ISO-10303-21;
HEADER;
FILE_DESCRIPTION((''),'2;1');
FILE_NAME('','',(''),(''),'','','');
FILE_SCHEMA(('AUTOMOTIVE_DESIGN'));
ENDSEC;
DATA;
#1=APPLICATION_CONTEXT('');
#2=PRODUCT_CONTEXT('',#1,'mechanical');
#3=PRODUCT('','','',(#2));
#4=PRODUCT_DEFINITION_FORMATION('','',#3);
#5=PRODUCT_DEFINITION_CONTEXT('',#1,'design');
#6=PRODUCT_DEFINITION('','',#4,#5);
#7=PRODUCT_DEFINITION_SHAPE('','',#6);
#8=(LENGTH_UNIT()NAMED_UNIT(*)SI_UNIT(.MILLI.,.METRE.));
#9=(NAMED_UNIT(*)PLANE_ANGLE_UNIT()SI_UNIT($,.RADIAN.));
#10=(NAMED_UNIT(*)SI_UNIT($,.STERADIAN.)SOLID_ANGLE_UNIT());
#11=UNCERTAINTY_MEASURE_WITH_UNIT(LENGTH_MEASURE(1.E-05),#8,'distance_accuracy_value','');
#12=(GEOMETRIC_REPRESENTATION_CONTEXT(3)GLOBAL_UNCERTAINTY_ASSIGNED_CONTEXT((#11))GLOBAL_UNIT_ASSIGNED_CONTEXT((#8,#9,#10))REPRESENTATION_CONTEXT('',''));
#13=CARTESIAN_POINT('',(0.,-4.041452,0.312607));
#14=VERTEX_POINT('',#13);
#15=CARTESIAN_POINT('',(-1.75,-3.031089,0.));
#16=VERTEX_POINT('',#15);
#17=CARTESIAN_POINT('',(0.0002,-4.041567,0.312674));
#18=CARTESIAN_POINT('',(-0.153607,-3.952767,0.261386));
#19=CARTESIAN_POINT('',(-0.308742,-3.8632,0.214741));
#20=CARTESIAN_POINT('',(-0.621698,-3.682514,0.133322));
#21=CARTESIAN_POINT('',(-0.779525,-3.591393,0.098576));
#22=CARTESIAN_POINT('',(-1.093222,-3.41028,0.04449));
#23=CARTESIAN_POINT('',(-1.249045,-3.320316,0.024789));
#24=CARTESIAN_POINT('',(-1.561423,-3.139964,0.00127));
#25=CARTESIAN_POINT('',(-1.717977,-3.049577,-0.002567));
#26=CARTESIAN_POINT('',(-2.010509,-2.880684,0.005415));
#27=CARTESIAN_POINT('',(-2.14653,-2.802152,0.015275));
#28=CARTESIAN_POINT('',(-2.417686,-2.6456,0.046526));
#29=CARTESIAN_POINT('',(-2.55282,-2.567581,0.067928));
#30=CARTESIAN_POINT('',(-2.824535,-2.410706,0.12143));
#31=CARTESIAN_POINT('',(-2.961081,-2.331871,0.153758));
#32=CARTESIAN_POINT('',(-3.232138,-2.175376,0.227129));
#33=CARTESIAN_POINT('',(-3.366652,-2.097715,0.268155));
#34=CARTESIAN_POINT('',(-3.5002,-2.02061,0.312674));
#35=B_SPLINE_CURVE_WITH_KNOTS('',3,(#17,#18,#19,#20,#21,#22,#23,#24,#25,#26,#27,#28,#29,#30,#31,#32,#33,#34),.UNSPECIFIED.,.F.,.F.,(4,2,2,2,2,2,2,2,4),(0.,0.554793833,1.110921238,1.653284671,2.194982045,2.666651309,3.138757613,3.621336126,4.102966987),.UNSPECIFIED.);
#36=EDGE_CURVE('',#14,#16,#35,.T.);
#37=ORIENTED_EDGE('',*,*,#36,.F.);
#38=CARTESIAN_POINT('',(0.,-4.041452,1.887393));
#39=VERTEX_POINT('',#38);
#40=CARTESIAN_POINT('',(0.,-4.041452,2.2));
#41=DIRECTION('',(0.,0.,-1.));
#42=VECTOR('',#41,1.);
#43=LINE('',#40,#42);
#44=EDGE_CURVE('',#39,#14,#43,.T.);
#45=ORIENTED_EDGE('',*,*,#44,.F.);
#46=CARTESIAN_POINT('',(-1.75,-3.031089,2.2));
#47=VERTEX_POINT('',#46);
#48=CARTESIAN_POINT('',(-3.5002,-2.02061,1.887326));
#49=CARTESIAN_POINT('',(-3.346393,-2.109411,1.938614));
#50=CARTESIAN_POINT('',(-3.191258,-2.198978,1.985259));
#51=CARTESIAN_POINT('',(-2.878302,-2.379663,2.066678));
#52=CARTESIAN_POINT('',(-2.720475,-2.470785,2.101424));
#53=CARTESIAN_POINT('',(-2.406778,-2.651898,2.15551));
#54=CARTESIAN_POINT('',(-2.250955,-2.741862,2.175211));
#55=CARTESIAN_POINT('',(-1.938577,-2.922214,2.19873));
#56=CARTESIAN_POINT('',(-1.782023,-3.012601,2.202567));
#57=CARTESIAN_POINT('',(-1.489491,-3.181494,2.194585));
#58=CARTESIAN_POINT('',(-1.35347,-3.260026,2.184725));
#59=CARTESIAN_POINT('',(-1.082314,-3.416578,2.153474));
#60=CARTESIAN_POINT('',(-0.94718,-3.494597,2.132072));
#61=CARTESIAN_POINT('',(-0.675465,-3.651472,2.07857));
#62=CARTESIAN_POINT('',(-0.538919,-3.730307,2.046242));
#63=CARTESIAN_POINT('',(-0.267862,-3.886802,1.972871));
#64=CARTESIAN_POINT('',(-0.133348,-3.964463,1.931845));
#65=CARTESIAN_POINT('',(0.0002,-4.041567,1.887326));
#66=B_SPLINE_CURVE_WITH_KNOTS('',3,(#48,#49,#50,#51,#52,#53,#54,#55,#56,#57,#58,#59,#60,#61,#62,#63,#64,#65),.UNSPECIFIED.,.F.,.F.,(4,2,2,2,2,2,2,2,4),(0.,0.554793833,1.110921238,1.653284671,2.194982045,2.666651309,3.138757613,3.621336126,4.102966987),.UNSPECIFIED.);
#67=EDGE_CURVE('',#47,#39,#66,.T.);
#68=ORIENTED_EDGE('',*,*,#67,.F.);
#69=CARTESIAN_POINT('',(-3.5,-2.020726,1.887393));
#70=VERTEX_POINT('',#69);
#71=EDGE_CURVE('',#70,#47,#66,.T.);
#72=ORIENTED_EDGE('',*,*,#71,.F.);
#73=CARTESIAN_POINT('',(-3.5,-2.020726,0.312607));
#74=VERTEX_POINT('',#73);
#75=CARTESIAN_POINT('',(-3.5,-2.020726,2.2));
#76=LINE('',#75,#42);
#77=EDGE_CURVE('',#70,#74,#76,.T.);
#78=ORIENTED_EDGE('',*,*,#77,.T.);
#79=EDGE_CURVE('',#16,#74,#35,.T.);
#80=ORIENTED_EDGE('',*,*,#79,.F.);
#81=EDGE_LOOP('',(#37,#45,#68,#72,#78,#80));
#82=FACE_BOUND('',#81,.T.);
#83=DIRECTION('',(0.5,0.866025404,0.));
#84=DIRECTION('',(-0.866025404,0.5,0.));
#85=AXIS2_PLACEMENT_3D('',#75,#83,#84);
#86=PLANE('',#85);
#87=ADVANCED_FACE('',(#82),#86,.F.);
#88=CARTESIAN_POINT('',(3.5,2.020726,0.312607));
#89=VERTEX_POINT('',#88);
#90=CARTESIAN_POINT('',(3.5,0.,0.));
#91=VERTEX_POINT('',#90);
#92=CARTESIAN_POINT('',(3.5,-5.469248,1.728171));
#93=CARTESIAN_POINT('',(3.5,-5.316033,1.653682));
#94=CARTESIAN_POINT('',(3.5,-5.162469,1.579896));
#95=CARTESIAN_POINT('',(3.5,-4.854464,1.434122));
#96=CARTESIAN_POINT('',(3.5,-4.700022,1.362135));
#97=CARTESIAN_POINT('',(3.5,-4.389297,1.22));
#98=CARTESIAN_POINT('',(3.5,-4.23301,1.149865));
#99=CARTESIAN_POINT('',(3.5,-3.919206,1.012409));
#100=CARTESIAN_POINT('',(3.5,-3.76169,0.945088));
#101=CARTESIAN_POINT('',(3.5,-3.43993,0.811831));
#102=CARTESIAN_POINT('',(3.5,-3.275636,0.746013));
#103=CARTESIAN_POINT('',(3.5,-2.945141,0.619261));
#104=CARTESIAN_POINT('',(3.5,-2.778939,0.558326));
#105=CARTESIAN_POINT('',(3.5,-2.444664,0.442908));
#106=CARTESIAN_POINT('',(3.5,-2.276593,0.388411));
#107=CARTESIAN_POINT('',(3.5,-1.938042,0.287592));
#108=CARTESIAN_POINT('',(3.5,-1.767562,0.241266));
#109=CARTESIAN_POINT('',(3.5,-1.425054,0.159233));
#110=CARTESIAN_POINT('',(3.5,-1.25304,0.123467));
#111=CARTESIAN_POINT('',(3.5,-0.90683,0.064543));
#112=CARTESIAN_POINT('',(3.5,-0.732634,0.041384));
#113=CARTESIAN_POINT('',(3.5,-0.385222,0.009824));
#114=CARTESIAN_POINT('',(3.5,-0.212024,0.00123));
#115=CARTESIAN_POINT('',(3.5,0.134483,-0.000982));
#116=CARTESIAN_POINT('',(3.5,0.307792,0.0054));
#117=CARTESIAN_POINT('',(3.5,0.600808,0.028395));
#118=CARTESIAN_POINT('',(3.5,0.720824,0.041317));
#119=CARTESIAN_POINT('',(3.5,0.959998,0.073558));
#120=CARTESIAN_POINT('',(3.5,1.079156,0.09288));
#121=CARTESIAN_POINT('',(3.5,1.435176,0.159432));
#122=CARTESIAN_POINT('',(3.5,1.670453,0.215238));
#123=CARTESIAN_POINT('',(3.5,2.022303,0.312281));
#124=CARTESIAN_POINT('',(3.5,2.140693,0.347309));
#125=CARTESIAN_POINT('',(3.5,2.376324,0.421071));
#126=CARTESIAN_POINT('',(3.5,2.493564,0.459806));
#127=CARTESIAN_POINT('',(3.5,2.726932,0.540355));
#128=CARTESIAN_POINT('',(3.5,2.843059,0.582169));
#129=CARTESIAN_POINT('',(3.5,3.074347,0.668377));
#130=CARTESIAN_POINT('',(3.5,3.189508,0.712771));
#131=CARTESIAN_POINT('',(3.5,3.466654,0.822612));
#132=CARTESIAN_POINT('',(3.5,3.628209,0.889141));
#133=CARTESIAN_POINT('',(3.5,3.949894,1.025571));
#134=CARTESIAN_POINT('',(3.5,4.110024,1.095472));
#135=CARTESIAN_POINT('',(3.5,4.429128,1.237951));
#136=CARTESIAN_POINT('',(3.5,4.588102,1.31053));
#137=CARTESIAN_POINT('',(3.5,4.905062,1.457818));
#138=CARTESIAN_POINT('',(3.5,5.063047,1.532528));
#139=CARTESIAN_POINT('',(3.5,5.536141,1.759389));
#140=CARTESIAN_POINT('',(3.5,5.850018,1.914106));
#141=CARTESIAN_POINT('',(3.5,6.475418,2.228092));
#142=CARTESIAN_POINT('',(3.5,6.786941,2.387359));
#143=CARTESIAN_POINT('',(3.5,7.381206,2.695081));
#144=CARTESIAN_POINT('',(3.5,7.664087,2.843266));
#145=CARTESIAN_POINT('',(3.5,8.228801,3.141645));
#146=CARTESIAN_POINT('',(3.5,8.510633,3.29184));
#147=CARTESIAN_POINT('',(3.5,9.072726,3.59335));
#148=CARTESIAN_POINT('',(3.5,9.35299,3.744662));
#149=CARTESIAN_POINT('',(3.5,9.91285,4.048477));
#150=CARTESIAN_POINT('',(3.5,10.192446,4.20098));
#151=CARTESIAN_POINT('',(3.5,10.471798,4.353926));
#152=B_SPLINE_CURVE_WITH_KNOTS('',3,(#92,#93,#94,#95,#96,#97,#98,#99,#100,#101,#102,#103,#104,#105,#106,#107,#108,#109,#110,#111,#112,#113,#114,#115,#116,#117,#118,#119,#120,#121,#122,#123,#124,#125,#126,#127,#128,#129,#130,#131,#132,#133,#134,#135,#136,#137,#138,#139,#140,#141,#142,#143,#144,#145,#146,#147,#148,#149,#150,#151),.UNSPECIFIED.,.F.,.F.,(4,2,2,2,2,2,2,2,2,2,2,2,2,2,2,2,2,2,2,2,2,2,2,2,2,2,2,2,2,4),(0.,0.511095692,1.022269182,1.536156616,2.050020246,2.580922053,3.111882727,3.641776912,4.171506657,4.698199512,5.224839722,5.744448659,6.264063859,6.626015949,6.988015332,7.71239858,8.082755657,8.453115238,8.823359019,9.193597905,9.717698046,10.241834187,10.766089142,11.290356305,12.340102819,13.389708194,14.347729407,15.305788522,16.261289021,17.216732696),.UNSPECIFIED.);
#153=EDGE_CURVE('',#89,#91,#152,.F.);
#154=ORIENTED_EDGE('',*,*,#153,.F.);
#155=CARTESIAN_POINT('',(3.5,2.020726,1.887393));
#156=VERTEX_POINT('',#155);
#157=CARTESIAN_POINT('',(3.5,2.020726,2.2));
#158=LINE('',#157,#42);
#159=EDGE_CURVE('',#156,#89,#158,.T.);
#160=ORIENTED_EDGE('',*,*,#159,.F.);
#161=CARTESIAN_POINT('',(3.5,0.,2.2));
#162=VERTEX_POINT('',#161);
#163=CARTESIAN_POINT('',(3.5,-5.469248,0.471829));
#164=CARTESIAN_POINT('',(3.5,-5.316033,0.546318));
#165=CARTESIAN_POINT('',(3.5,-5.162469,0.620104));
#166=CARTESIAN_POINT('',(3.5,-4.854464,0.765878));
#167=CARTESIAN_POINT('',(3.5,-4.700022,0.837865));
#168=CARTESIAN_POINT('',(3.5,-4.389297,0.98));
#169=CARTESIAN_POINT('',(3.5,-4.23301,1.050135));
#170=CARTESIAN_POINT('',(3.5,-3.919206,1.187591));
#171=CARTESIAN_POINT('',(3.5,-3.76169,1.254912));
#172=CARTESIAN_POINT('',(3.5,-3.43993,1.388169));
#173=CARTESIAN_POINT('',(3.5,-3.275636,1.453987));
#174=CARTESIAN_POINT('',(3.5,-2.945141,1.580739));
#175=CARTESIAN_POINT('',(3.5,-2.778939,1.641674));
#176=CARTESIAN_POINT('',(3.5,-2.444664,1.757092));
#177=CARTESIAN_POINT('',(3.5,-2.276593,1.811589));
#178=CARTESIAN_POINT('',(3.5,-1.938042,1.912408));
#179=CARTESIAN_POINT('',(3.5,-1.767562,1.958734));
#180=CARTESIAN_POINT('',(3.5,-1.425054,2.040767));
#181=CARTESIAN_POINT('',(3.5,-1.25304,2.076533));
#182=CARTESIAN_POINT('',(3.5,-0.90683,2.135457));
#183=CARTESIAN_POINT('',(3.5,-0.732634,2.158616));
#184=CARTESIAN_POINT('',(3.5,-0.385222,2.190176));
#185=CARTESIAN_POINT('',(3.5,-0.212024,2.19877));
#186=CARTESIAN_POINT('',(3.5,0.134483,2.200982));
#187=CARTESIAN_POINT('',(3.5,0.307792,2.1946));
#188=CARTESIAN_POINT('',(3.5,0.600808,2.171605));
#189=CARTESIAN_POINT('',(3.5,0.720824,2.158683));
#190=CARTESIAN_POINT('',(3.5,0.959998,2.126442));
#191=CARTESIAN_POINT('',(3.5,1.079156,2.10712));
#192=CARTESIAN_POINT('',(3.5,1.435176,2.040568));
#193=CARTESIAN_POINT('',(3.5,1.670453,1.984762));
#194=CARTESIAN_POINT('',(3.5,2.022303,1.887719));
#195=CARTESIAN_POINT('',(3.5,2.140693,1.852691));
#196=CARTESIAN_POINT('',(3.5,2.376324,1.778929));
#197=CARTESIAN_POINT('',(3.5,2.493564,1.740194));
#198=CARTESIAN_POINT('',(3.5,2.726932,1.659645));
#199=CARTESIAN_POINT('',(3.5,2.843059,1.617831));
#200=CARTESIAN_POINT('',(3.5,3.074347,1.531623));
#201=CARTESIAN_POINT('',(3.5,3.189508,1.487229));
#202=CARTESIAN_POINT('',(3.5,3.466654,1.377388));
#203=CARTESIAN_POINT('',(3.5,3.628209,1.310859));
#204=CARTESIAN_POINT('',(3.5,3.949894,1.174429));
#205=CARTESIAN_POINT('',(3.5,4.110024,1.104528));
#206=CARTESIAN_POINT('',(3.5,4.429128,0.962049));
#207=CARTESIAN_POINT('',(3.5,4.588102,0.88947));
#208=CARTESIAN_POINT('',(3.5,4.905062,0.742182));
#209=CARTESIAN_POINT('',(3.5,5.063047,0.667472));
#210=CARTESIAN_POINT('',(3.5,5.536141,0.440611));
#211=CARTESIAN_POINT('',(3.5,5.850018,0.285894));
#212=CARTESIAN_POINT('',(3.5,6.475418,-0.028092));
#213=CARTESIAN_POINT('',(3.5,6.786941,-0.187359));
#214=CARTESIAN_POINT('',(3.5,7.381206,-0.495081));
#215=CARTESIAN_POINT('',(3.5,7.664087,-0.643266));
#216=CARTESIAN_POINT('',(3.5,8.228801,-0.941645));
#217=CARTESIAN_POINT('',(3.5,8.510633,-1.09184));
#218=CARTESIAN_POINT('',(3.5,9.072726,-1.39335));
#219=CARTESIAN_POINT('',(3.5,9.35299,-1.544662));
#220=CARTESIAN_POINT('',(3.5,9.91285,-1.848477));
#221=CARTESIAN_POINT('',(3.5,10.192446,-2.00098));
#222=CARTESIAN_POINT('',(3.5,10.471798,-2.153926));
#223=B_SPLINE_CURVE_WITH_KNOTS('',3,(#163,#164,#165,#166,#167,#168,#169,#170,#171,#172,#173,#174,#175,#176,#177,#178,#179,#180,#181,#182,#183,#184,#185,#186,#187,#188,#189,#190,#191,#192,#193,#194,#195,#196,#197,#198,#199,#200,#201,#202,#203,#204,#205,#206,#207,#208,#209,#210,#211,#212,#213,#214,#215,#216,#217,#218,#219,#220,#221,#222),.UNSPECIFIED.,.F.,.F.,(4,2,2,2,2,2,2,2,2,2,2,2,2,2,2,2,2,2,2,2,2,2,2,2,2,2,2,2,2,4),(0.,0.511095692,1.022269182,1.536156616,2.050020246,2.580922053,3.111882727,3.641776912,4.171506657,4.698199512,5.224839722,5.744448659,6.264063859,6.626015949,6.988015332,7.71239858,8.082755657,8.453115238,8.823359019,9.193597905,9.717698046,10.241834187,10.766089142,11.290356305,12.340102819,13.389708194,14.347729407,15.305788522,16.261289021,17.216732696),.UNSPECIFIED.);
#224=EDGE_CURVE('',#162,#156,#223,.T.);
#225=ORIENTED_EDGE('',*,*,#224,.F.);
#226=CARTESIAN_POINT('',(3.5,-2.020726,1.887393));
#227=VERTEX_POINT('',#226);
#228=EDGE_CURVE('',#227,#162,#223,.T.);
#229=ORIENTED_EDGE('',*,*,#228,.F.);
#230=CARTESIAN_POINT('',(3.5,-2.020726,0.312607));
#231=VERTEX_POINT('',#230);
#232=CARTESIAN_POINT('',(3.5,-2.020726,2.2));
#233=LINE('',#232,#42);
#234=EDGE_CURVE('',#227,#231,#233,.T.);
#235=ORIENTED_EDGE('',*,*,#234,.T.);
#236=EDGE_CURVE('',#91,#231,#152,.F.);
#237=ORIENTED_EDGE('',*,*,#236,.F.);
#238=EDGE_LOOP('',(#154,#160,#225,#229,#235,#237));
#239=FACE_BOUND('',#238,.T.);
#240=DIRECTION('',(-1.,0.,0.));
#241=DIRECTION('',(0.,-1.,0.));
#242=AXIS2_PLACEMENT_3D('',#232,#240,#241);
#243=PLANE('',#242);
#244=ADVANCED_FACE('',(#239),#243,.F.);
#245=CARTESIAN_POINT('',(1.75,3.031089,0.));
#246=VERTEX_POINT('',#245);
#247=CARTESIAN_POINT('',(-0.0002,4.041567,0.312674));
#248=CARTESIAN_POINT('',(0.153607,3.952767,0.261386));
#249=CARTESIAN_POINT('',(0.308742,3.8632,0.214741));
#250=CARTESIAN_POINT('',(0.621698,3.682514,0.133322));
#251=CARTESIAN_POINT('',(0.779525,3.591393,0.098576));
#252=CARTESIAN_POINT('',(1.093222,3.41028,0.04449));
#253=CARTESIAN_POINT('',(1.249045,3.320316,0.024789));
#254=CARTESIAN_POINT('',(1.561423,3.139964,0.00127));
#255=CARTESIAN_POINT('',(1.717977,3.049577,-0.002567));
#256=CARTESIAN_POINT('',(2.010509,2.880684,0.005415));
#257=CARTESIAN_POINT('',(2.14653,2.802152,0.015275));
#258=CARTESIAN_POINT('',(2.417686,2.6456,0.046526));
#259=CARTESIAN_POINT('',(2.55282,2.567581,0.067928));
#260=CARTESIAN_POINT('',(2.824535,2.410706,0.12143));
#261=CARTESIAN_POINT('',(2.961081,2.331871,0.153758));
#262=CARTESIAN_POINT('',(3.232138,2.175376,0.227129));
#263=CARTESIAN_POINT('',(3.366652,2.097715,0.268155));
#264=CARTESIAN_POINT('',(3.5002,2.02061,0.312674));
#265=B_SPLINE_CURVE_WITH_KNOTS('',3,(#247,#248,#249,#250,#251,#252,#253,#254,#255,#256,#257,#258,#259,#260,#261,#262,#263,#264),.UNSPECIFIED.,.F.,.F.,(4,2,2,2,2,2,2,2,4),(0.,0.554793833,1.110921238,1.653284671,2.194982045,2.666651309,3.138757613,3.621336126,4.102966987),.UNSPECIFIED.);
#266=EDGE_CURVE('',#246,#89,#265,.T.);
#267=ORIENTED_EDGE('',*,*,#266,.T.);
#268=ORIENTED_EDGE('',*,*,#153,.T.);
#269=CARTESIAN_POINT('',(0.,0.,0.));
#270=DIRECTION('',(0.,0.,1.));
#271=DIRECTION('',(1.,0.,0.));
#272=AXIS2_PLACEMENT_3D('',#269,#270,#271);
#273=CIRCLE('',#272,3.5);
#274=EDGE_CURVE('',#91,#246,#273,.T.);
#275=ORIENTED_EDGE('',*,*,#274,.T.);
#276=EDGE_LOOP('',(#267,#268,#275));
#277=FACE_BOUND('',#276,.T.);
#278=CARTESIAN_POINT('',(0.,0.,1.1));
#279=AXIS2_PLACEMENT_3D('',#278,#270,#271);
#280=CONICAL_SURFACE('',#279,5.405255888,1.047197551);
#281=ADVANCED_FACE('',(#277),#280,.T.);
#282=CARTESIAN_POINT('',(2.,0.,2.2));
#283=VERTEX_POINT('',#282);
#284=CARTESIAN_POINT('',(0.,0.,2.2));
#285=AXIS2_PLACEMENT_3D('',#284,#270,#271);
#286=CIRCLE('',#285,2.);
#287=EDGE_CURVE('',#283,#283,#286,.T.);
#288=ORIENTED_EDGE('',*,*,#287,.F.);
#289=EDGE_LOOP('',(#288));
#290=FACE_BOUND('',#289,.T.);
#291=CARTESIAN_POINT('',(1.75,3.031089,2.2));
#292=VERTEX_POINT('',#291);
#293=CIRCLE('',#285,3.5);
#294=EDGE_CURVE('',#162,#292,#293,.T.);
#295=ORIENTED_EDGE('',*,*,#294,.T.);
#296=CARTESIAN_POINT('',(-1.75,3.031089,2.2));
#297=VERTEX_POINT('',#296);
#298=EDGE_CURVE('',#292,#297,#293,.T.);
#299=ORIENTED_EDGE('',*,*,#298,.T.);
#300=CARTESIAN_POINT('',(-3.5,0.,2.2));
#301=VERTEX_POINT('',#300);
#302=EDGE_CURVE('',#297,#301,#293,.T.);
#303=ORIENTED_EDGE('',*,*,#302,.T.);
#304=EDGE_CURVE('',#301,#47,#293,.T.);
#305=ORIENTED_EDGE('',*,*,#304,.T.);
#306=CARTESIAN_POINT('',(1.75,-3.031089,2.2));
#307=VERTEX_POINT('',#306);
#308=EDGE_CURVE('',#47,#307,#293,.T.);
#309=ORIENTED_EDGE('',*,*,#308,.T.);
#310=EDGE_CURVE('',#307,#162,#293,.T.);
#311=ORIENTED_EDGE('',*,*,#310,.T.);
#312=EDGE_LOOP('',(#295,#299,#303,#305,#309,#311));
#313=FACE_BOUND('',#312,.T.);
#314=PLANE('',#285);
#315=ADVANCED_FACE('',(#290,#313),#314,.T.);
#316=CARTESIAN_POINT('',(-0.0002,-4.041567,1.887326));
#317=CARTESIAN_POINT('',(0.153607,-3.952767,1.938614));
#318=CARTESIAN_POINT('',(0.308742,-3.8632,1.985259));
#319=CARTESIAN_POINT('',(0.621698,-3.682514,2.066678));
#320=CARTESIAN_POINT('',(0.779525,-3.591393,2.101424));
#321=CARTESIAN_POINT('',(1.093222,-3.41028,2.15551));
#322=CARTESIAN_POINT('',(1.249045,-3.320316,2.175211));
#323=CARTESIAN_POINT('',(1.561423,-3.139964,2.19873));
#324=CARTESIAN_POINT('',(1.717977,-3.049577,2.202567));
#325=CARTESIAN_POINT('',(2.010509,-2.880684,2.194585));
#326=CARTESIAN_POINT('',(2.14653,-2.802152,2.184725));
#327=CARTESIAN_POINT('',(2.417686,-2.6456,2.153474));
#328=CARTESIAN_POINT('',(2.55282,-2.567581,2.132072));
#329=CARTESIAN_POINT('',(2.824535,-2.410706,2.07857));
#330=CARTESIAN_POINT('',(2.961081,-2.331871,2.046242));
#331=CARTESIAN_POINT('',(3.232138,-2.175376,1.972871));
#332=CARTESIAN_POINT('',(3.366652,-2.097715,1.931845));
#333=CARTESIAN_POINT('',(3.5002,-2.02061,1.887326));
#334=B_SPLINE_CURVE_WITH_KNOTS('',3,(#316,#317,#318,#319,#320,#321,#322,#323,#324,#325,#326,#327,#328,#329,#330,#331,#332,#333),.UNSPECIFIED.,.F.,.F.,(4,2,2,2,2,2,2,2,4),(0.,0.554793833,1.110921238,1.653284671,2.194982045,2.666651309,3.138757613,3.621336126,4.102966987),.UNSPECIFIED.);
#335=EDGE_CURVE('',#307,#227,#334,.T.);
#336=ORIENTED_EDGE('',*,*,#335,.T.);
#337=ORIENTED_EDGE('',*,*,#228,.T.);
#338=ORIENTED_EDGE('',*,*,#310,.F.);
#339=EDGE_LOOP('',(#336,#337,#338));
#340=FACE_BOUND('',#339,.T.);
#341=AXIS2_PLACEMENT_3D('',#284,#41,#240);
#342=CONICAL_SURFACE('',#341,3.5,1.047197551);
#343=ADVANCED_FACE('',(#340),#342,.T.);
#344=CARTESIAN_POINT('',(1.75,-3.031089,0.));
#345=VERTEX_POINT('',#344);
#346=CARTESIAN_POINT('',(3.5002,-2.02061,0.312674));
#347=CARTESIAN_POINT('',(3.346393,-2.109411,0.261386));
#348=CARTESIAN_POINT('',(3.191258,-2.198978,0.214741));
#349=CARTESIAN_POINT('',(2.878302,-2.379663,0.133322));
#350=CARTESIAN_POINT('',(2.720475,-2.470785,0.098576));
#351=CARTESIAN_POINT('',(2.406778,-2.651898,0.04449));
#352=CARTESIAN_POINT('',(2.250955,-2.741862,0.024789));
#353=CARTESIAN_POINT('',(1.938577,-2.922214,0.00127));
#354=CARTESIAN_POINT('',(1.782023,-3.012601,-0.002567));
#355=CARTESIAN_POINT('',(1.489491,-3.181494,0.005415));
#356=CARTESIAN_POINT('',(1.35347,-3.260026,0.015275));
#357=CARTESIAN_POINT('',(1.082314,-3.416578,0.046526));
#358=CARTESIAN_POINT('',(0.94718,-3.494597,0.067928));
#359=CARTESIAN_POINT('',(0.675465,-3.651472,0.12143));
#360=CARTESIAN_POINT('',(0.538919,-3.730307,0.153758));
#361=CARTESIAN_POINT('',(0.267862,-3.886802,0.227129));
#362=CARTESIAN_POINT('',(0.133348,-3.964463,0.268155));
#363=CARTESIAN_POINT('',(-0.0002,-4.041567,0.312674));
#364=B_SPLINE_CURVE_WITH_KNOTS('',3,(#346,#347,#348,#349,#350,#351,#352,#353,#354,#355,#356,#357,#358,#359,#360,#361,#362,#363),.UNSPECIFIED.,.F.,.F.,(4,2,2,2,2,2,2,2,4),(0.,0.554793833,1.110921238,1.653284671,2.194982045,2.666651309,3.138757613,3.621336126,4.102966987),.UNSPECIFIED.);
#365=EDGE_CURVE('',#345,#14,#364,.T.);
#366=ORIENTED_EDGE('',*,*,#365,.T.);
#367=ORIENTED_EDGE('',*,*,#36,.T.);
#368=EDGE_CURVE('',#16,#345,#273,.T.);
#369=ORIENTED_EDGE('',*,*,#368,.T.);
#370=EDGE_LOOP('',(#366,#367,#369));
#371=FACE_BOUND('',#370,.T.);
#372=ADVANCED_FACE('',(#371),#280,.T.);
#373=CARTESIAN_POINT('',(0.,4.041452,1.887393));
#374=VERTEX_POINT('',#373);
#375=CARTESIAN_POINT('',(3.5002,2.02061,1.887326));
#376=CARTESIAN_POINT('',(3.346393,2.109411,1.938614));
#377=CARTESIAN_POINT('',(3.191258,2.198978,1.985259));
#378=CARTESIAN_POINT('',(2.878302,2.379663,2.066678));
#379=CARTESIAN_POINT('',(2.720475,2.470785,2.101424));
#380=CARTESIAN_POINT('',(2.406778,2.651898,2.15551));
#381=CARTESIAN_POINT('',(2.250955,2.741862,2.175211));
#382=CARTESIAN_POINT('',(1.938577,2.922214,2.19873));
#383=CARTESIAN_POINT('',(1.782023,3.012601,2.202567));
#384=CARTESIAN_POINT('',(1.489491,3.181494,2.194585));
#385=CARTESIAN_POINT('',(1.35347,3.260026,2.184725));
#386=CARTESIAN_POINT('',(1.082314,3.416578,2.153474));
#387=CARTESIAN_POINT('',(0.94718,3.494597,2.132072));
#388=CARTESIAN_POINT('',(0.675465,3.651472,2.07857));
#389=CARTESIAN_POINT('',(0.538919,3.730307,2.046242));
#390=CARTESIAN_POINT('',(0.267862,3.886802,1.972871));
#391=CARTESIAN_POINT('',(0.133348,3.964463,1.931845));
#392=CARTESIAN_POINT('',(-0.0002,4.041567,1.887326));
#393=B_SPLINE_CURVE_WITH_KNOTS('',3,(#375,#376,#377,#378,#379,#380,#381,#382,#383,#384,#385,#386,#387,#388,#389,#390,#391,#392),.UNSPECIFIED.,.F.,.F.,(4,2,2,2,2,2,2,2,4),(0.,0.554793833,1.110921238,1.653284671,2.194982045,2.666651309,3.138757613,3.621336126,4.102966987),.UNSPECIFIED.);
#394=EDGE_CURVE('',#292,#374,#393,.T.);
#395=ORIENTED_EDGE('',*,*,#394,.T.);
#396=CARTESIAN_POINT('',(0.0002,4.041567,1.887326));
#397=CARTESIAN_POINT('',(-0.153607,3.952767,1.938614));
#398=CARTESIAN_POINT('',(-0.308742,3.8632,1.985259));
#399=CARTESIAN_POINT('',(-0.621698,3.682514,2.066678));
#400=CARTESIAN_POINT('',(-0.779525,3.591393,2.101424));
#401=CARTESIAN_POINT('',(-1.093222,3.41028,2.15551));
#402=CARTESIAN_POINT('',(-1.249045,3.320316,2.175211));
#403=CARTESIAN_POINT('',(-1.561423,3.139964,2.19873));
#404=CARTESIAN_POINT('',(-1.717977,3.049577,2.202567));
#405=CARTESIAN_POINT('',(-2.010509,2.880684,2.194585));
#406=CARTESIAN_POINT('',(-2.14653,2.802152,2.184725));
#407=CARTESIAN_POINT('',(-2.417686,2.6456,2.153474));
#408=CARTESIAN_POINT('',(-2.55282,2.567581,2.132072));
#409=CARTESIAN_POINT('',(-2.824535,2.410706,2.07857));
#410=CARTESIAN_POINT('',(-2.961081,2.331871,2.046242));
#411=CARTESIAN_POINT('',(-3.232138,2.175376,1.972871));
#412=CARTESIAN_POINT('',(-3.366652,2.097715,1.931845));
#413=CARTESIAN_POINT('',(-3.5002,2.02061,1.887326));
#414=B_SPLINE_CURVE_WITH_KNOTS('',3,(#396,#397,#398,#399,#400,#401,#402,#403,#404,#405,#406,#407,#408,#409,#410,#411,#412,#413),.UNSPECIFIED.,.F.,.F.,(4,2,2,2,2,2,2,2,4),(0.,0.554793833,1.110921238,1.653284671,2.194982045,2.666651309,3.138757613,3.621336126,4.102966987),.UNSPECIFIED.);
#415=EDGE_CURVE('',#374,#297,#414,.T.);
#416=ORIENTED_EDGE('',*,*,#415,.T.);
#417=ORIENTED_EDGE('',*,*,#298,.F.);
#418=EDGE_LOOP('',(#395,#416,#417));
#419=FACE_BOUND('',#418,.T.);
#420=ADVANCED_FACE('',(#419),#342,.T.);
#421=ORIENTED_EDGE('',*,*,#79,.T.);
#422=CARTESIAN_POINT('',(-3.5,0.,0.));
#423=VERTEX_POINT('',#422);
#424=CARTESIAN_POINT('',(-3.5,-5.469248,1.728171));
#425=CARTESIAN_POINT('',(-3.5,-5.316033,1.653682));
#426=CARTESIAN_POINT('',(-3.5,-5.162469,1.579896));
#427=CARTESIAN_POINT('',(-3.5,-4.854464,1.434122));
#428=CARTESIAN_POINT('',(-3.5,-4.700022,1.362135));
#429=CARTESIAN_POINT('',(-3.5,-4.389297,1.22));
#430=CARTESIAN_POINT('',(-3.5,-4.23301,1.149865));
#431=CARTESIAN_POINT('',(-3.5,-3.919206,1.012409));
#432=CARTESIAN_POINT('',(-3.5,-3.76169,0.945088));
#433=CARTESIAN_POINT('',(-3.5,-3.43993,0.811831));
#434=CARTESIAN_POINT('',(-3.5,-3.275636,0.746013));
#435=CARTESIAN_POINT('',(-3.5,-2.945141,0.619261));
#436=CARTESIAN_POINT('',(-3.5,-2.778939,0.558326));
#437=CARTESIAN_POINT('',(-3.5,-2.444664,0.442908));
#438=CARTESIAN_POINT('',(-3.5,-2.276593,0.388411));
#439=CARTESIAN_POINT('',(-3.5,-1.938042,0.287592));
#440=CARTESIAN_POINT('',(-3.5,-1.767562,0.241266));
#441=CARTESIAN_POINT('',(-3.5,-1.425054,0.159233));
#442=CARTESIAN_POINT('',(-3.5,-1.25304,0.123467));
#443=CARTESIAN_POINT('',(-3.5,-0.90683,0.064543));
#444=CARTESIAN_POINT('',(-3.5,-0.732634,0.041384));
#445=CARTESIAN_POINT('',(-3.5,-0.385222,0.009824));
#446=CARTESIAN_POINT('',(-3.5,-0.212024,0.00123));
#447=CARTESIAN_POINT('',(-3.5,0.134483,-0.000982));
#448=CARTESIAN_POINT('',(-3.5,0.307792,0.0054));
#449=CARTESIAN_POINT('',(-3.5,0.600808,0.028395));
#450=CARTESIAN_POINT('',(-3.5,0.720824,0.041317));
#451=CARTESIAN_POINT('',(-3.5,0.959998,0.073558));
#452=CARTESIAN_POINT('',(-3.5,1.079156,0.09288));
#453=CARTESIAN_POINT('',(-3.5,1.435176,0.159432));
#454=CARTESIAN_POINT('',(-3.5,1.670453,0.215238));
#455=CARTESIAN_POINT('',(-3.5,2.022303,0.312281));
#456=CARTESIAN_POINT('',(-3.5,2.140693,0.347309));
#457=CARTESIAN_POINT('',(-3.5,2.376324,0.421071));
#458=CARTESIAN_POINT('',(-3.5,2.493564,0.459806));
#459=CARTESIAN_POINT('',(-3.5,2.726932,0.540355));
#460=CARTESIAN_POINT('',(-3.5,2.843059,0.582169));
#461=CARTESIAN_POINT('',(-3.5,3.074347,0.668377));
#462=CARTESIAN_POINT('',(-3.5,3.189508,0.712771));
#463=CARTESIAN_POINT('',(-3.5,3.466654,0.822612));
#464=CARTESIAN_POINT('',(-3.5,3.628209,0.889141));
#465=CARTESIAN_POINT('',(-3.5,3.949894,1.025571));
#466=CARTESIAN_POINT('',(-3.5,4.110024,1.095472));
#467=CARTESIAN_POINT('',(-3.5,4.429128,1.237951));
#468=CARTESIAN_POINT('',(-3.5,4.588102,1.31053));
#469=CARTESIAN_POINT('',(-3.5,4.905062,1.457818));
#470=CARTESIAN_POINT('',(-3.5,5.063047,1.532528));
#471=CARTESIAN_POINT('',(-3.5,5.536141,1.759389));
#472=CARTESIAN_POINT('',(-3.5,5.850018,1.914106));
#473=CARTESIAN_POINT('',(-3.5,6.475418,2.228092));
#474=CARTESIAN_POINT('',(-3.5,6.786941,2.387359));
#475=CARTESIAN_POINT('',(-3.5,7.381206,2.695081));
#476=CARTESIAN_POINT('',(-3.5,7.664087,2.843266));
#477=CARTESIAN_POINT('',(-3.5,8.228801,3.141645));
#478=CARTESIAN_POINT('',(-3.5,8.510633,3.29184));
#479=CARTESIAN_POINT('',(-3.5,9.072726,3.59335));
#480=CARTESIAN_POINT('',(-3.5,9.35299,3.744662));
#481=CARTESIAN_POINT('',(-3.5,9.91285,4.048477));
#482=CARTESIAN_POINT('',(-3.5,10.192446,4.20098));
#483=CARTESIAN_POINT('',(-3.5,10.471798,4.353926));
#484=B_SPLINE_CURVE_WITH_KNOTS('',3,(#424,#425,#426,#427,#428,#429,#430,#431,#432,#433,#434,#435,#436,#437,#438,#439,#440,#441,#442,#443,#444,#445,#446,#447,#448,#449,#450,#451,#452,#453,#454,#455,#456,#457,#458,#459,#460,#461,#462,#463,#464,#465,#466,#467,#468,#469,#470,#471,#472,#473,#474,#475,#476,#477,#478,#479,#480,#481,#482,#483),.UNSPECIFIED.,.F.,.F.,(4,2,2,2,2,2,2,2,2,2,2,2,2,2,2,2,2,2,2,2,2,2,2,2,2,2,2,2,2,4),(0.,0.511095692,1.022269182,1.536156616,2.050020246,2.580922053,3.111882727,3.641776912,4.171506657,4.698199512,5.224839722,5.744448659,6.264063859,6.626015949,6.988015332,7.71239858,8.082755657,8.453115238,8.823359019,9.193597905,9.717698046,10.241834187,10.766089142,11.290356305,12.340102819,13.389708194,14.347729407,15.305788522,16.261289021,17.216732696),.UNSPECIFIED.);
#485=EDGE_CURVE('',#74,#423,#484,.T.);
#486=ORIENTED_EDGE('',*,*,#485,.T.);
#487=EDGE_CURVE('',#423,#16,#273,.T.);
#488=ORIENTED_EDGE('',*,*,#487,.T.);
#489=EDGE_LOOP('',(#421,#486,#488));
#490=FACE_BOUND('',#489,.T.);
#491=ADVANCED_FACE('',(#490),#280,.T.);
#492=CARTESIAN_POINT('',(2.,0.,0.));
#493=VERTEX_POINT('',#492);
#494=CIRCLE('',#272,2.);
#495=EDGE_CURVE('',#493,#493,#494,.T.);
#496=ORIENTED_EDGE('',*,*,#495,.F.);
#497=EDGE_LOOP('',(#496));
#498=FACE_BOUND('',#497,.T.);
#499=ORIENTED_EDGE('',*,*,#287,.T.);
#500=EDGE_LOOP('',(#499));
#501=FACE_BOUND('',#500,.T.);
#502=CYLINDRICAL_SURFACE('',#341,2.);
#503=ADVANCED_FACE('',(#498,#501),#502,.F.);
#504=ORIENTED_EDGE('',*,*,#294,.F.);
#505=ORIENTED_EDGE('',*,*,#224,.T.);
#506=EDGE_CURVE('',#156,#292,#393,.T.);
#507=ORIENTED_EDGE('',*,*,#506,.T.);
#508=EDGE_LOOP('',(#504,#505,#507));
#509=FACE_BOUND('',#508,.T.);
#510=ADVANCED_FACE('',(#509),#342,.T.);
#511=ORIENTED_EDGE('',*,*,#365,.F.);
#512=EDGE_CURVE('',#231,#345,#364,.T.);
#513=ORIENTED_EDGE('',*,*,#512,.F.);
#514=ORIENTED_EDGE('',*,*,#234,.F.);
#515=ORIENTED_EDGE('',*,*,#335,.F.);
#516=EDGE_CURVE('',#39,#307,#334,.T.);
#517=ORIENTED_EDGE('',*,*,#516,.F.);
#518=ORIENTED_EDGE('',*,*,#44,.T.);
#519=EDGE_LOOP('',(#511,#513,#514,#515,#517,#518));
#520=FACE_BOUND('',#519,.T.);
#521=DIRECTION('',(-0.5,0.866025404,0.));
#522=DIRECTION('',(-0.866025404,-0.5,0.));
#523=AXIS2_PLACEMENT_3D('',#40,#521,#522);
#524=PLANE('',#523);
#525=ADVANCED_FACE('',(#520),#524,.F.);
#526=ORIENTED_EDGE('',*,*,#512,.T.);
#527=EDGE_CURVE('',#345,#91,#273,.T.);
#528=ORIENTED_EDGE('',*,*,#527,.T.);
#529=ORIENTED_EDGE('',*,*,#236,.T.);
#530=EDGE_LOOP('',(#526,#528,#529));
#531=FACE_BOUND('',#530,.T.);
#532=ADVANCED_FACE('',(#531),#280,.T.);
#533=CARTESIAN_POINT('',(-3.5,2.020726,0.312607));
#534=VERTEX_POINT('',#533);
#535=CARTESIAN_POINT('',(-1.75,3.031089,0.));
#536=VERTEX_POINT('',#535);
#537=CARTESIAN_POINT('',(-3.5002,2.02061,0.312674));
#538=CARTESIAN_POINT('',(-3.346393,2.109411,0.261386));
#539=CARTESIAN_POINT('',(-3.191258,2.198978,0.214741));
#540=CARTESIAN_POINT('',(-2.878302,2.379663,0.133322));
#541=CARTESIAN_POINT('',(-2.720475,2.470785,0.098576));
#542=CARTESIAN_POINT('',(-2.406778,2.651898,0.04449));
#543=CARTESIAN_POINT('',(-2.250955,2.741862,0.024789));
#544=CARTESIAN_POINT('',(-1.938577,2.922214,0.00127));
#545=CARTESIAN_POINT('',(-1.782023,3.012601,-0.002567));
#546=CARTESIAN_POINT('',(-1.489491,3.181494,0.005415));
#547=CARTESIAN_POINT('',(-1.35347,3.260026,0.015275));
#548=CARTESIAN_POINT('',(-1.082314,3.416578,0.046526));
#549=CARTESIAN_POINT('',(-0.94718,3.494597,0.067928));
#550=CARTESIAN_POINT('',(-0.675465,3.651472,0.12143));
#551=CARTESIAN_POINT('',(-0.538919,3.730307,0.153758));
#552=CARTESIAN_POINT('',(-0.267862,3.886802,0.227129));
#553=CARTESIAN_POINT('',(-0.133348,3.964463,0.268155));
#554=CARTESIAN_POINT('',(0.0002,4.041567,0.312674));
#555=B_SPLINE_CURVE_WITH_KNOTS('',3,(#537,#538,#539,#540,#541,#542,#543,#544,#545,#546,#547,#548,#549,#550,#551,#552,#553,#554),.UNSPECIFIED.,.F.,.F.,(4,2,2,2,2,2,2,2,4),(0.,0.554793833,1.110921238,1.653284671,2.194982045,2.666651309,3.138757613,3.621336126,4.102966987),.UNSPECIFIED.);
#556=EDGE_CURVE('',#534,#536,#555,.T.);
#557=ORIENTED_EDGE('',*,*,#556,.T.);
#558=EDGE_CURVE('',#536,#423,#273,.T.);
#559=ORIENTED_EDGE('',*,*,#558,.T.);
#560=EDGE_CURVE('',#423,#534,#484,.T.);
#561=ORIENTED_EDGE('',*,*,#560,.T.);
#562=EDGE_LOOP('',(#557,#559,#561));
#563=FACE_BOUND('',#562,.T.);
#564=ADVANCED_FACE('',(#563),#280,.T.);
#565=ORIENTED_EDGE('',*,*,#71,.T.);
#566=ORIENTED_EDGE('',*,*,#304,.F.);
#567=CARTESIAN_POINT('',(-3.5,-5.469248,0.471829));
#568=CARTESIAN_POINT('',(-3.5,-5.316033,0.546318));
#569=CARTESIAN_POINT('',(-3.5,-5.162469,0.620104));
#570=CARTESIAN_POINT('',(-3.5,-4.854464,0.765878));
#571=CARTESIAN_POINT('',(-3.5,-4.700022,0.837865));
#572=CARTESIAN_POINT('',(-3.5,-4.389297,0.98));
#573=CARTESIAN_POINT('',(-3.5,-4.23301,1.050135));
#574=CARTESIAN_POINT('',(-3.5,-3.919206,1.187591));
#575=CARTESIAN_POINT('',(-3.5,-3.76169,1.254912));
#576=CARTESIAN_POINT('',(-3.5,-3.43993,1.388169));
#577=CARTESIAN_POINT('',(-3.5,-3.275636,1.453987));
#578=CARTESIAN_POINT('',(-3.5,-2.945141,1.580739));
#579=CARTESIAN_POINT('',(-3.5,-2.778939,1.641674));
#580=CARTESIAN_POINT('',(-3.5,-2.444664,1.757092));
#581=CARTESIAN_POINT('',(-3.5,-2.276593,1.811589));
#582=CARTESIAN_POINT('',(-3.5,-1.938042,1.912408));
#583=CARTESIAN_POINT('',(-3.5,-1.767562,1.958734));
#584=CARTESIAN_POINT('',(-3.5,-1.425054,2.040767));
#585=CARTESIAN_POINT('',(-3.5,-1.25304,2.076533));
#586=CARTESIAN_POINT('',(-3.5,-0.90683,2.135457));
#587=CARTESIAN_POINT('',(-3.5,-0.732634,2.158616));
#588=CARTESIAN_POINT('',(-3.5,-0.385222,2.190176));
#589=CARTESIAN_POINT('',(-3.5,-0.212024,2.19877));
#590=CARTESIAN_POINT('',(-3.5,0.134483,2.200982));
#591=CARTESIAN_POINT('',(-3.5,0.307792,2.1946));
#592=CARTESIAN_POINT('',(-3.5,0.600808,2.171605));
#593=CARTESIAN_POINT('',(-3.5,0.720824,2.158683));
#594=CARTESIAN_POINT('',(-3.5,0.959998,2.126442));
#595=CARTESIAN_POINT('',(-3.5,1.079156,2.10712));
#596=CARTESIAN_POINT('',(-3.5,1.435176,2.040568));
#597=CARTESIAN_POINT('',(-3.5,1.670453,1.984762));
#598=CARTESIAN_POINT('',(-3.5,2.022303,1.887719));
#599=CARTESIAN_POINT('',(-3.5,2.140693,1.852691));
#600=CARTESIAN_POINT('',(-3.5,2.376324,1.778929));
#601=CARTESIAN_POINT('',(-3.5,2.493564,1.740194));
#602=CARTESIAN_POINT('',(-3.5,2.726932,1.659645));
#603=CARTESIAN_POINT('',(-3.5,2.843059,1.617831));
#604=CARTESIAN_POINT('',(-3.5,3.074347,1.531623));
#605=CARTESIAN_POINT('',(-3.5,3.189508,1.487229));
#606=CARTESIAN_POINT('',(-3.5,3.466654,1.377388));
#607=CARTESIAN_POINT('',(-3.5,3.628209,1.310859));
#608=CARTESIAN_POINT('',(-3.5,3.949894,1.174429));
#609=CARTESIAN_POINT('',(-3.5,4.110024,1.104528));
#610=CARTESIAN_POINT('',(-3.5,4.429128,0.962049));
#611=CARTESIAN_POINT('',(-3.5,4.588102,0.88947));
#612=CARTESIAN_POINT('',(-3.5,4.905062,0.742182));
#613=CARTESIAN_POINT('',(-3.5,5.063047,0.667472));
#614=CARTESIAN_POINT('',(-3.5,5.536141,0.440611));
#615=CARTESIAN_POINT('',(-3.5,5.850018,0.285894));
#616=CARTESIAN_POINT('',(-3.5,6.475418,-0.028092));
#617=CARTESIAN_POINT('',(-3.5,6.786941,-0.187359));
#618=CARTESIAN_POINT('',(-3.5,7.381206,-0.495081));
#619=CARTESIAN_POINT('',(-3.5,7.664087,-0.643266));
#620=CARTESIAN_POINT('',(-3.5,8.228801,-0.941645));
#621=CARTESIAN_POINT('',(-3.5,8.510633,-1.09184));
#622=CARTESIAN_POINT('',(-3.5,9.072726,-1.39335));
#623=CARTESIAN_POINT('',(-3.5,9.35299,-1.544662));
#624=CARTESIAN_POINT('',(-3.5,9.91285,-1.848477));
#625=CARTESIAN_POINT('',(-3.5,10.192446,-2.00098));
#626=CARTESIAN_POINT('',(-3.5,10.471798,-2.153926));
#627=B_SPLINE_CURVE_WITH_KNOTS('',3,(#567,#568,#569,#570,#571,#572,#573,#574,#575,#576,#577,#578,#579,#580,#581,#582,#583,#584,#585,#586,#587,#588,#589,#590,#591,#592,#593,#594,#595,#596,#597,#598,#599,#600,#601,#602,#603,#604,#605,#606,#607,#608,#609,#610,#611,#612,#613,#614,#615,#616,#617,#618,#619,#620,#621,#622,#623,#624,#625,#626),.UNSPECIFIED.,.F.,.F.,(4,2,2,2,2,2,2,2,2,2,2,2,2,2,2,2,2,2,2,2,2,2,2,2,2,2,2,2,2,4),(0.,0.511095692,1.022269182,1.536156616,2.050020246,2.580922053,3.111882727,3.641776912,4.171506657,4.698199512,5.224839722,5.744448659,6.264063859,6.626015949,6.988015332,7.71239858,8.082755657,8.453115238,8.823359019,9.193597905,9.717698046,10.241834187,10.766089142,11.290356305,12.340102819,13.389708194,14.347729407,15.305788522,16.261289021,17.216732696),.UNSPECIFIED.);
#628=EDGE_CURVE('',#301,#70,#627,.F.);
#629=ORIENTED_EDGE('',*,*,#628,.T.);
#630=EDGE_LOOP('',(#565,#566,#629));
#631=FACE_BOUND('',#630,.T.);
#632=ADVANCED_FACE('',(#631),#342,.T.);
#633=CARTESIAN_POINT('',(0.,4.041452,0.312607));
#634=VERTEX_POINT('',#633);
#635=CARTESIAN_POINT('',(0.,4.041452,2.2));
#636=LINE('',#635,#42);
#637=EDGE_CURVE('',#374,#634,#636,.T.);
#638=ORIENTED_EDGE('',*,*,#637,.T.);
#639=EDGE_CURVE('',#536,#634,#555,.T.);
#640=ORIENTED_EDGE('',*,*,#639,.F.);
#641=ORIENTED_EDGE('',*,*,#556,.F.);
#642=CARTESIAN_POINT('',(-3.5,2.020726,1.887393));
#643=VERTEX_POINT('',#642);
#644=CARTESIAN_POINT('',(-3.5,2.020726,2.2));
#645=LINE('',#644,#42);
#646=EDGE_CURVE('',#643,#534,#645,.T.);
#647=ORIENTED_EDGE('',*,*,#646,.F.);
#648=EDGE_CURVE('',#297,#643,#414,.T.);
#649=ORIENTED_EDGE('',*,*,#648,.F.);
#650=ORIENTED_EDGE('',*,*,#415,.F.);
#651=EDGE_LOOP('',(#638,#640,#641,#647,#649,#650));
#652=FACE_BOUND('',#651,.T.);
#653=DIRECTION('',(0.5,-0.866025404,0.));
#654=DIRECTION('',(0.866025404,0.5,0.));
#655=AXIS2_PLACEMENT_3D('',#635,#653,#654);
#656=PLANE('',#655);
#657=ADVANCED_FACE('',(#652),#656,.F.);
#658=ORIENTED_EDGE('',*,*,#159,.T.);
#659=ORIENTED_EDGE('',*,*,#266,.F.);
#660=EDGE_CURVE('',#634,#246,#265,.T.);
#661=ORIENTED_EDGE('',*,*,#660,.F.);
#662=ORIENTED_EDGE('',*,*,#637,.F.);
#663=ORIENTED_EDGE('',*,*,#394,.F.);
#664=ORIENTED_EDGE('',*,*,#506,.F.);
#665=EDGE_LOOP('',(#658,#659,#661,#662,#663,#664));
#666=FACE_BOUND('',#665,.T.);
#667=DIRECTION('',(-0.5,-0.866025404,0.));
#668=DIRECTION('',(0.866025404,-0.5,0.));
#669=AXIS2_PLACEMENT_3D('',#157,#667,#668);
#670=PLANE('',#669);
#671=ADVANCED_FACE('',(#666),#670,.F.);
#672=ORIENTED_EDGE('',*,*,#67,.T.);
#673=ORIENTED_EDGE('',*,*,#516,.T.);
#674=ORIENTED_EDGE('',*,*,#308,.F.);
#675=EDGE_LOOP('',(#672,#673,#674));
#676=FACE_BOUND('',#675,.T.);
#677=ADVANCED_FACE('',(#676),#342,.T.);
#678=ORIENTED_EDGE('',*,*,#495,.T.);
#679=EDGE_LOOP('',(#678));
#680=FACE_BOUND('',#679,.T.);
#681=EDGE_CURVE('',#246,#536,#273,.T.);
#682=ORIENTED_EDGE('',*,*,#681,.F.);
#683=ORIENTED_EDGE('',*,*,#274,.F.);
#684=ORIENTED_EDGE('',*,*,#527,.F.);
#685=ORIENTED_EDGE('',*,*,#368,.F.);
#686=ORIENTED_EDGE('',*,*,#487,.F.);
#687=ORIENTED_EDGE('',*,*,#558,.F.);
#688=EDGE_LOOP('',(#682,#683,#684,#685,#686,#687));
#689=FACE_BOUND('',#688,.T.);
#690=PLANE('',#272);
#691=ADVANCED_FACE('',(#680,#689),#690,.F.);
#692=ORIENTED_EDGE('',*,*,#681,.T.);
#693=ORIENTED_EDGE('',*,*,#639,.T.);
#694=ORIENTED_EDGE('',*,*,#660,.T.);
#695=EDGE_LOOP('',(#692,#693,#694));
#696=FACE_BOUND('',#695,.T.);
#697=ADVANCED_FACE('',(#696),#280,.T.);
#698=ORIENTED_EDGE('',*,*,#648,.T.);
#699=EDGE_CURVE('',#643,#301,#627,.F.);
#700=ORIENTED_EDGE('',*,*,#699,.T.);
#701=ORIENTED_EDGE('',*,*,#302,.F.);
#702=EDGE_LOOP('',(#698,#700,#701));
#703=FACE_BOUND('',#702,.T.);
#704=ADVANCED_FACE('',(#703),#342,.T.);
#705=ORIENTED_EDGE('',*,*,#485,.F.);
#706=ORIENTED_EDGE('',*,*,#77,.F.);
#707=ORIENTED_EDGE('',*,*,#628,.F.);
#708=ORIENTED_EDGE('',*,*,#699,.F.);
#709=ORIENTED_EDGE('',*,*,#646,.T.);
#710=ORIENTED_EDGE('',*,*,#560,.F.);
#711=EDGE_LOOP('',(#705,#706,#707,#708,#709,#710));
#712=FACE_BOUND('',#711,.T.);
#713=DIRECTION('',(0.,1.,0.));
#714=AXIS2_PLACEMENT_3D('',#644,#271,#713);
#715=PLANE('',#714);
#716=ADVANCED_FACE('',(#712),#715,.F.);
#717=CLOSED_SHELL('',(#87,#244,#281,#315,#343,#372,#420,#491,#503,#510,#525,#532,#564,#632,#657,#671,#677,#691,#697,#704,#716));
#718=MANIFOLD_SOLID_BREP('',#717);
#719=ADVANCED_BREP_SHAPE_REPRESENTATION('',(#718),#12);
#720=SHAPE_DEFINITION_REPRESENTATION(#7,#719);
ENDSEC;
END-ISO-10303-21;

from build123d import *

# Parameters (mm, degrees)
SZKIC1_R                    = 2
DODANIE_WYCI_GNI_CIE1_DEPTH = 2.2


with BuildPart() as part:
    # Szkic1 → Dodanie-wyciągnięcie1 (new body)
    with BuildSketch(Plane.XY):
        Polygon((3.5, 2.020725942), (0, 4.041451884), (-3.5, 2.020725942), (-3.5, -2.020725942), (0, -4.041451884), (3.5, -2.020725942), align=None)
        Circle(SZKIC1_R, mode=Mode.SUBTRACT)
    extrude(amount=DODANIE_WYCI_GNI_CIE1_DEPTH)

    # Szkic2 → Wycięcie-obrót1 (revolve, cut)
    with BuildSketch(Plane(origin=(0, 0, 0), x_dir=(1, 0, 0), z_dir=(0, 1, 0))):
        Polygon((-5.405255888, -2.2), (-3.5, -2.2), (-5.405255888, -1.1), align=None)
        Polygon((-5.405255888, -1.1), (-3.5, 0), (-5.405255888, 0), align=None)
    revolve(axis=Axis((0, 0, 9.891098034), (0, 0, -1)), mode=Mode.SUBTRACT)


solid = part.part
